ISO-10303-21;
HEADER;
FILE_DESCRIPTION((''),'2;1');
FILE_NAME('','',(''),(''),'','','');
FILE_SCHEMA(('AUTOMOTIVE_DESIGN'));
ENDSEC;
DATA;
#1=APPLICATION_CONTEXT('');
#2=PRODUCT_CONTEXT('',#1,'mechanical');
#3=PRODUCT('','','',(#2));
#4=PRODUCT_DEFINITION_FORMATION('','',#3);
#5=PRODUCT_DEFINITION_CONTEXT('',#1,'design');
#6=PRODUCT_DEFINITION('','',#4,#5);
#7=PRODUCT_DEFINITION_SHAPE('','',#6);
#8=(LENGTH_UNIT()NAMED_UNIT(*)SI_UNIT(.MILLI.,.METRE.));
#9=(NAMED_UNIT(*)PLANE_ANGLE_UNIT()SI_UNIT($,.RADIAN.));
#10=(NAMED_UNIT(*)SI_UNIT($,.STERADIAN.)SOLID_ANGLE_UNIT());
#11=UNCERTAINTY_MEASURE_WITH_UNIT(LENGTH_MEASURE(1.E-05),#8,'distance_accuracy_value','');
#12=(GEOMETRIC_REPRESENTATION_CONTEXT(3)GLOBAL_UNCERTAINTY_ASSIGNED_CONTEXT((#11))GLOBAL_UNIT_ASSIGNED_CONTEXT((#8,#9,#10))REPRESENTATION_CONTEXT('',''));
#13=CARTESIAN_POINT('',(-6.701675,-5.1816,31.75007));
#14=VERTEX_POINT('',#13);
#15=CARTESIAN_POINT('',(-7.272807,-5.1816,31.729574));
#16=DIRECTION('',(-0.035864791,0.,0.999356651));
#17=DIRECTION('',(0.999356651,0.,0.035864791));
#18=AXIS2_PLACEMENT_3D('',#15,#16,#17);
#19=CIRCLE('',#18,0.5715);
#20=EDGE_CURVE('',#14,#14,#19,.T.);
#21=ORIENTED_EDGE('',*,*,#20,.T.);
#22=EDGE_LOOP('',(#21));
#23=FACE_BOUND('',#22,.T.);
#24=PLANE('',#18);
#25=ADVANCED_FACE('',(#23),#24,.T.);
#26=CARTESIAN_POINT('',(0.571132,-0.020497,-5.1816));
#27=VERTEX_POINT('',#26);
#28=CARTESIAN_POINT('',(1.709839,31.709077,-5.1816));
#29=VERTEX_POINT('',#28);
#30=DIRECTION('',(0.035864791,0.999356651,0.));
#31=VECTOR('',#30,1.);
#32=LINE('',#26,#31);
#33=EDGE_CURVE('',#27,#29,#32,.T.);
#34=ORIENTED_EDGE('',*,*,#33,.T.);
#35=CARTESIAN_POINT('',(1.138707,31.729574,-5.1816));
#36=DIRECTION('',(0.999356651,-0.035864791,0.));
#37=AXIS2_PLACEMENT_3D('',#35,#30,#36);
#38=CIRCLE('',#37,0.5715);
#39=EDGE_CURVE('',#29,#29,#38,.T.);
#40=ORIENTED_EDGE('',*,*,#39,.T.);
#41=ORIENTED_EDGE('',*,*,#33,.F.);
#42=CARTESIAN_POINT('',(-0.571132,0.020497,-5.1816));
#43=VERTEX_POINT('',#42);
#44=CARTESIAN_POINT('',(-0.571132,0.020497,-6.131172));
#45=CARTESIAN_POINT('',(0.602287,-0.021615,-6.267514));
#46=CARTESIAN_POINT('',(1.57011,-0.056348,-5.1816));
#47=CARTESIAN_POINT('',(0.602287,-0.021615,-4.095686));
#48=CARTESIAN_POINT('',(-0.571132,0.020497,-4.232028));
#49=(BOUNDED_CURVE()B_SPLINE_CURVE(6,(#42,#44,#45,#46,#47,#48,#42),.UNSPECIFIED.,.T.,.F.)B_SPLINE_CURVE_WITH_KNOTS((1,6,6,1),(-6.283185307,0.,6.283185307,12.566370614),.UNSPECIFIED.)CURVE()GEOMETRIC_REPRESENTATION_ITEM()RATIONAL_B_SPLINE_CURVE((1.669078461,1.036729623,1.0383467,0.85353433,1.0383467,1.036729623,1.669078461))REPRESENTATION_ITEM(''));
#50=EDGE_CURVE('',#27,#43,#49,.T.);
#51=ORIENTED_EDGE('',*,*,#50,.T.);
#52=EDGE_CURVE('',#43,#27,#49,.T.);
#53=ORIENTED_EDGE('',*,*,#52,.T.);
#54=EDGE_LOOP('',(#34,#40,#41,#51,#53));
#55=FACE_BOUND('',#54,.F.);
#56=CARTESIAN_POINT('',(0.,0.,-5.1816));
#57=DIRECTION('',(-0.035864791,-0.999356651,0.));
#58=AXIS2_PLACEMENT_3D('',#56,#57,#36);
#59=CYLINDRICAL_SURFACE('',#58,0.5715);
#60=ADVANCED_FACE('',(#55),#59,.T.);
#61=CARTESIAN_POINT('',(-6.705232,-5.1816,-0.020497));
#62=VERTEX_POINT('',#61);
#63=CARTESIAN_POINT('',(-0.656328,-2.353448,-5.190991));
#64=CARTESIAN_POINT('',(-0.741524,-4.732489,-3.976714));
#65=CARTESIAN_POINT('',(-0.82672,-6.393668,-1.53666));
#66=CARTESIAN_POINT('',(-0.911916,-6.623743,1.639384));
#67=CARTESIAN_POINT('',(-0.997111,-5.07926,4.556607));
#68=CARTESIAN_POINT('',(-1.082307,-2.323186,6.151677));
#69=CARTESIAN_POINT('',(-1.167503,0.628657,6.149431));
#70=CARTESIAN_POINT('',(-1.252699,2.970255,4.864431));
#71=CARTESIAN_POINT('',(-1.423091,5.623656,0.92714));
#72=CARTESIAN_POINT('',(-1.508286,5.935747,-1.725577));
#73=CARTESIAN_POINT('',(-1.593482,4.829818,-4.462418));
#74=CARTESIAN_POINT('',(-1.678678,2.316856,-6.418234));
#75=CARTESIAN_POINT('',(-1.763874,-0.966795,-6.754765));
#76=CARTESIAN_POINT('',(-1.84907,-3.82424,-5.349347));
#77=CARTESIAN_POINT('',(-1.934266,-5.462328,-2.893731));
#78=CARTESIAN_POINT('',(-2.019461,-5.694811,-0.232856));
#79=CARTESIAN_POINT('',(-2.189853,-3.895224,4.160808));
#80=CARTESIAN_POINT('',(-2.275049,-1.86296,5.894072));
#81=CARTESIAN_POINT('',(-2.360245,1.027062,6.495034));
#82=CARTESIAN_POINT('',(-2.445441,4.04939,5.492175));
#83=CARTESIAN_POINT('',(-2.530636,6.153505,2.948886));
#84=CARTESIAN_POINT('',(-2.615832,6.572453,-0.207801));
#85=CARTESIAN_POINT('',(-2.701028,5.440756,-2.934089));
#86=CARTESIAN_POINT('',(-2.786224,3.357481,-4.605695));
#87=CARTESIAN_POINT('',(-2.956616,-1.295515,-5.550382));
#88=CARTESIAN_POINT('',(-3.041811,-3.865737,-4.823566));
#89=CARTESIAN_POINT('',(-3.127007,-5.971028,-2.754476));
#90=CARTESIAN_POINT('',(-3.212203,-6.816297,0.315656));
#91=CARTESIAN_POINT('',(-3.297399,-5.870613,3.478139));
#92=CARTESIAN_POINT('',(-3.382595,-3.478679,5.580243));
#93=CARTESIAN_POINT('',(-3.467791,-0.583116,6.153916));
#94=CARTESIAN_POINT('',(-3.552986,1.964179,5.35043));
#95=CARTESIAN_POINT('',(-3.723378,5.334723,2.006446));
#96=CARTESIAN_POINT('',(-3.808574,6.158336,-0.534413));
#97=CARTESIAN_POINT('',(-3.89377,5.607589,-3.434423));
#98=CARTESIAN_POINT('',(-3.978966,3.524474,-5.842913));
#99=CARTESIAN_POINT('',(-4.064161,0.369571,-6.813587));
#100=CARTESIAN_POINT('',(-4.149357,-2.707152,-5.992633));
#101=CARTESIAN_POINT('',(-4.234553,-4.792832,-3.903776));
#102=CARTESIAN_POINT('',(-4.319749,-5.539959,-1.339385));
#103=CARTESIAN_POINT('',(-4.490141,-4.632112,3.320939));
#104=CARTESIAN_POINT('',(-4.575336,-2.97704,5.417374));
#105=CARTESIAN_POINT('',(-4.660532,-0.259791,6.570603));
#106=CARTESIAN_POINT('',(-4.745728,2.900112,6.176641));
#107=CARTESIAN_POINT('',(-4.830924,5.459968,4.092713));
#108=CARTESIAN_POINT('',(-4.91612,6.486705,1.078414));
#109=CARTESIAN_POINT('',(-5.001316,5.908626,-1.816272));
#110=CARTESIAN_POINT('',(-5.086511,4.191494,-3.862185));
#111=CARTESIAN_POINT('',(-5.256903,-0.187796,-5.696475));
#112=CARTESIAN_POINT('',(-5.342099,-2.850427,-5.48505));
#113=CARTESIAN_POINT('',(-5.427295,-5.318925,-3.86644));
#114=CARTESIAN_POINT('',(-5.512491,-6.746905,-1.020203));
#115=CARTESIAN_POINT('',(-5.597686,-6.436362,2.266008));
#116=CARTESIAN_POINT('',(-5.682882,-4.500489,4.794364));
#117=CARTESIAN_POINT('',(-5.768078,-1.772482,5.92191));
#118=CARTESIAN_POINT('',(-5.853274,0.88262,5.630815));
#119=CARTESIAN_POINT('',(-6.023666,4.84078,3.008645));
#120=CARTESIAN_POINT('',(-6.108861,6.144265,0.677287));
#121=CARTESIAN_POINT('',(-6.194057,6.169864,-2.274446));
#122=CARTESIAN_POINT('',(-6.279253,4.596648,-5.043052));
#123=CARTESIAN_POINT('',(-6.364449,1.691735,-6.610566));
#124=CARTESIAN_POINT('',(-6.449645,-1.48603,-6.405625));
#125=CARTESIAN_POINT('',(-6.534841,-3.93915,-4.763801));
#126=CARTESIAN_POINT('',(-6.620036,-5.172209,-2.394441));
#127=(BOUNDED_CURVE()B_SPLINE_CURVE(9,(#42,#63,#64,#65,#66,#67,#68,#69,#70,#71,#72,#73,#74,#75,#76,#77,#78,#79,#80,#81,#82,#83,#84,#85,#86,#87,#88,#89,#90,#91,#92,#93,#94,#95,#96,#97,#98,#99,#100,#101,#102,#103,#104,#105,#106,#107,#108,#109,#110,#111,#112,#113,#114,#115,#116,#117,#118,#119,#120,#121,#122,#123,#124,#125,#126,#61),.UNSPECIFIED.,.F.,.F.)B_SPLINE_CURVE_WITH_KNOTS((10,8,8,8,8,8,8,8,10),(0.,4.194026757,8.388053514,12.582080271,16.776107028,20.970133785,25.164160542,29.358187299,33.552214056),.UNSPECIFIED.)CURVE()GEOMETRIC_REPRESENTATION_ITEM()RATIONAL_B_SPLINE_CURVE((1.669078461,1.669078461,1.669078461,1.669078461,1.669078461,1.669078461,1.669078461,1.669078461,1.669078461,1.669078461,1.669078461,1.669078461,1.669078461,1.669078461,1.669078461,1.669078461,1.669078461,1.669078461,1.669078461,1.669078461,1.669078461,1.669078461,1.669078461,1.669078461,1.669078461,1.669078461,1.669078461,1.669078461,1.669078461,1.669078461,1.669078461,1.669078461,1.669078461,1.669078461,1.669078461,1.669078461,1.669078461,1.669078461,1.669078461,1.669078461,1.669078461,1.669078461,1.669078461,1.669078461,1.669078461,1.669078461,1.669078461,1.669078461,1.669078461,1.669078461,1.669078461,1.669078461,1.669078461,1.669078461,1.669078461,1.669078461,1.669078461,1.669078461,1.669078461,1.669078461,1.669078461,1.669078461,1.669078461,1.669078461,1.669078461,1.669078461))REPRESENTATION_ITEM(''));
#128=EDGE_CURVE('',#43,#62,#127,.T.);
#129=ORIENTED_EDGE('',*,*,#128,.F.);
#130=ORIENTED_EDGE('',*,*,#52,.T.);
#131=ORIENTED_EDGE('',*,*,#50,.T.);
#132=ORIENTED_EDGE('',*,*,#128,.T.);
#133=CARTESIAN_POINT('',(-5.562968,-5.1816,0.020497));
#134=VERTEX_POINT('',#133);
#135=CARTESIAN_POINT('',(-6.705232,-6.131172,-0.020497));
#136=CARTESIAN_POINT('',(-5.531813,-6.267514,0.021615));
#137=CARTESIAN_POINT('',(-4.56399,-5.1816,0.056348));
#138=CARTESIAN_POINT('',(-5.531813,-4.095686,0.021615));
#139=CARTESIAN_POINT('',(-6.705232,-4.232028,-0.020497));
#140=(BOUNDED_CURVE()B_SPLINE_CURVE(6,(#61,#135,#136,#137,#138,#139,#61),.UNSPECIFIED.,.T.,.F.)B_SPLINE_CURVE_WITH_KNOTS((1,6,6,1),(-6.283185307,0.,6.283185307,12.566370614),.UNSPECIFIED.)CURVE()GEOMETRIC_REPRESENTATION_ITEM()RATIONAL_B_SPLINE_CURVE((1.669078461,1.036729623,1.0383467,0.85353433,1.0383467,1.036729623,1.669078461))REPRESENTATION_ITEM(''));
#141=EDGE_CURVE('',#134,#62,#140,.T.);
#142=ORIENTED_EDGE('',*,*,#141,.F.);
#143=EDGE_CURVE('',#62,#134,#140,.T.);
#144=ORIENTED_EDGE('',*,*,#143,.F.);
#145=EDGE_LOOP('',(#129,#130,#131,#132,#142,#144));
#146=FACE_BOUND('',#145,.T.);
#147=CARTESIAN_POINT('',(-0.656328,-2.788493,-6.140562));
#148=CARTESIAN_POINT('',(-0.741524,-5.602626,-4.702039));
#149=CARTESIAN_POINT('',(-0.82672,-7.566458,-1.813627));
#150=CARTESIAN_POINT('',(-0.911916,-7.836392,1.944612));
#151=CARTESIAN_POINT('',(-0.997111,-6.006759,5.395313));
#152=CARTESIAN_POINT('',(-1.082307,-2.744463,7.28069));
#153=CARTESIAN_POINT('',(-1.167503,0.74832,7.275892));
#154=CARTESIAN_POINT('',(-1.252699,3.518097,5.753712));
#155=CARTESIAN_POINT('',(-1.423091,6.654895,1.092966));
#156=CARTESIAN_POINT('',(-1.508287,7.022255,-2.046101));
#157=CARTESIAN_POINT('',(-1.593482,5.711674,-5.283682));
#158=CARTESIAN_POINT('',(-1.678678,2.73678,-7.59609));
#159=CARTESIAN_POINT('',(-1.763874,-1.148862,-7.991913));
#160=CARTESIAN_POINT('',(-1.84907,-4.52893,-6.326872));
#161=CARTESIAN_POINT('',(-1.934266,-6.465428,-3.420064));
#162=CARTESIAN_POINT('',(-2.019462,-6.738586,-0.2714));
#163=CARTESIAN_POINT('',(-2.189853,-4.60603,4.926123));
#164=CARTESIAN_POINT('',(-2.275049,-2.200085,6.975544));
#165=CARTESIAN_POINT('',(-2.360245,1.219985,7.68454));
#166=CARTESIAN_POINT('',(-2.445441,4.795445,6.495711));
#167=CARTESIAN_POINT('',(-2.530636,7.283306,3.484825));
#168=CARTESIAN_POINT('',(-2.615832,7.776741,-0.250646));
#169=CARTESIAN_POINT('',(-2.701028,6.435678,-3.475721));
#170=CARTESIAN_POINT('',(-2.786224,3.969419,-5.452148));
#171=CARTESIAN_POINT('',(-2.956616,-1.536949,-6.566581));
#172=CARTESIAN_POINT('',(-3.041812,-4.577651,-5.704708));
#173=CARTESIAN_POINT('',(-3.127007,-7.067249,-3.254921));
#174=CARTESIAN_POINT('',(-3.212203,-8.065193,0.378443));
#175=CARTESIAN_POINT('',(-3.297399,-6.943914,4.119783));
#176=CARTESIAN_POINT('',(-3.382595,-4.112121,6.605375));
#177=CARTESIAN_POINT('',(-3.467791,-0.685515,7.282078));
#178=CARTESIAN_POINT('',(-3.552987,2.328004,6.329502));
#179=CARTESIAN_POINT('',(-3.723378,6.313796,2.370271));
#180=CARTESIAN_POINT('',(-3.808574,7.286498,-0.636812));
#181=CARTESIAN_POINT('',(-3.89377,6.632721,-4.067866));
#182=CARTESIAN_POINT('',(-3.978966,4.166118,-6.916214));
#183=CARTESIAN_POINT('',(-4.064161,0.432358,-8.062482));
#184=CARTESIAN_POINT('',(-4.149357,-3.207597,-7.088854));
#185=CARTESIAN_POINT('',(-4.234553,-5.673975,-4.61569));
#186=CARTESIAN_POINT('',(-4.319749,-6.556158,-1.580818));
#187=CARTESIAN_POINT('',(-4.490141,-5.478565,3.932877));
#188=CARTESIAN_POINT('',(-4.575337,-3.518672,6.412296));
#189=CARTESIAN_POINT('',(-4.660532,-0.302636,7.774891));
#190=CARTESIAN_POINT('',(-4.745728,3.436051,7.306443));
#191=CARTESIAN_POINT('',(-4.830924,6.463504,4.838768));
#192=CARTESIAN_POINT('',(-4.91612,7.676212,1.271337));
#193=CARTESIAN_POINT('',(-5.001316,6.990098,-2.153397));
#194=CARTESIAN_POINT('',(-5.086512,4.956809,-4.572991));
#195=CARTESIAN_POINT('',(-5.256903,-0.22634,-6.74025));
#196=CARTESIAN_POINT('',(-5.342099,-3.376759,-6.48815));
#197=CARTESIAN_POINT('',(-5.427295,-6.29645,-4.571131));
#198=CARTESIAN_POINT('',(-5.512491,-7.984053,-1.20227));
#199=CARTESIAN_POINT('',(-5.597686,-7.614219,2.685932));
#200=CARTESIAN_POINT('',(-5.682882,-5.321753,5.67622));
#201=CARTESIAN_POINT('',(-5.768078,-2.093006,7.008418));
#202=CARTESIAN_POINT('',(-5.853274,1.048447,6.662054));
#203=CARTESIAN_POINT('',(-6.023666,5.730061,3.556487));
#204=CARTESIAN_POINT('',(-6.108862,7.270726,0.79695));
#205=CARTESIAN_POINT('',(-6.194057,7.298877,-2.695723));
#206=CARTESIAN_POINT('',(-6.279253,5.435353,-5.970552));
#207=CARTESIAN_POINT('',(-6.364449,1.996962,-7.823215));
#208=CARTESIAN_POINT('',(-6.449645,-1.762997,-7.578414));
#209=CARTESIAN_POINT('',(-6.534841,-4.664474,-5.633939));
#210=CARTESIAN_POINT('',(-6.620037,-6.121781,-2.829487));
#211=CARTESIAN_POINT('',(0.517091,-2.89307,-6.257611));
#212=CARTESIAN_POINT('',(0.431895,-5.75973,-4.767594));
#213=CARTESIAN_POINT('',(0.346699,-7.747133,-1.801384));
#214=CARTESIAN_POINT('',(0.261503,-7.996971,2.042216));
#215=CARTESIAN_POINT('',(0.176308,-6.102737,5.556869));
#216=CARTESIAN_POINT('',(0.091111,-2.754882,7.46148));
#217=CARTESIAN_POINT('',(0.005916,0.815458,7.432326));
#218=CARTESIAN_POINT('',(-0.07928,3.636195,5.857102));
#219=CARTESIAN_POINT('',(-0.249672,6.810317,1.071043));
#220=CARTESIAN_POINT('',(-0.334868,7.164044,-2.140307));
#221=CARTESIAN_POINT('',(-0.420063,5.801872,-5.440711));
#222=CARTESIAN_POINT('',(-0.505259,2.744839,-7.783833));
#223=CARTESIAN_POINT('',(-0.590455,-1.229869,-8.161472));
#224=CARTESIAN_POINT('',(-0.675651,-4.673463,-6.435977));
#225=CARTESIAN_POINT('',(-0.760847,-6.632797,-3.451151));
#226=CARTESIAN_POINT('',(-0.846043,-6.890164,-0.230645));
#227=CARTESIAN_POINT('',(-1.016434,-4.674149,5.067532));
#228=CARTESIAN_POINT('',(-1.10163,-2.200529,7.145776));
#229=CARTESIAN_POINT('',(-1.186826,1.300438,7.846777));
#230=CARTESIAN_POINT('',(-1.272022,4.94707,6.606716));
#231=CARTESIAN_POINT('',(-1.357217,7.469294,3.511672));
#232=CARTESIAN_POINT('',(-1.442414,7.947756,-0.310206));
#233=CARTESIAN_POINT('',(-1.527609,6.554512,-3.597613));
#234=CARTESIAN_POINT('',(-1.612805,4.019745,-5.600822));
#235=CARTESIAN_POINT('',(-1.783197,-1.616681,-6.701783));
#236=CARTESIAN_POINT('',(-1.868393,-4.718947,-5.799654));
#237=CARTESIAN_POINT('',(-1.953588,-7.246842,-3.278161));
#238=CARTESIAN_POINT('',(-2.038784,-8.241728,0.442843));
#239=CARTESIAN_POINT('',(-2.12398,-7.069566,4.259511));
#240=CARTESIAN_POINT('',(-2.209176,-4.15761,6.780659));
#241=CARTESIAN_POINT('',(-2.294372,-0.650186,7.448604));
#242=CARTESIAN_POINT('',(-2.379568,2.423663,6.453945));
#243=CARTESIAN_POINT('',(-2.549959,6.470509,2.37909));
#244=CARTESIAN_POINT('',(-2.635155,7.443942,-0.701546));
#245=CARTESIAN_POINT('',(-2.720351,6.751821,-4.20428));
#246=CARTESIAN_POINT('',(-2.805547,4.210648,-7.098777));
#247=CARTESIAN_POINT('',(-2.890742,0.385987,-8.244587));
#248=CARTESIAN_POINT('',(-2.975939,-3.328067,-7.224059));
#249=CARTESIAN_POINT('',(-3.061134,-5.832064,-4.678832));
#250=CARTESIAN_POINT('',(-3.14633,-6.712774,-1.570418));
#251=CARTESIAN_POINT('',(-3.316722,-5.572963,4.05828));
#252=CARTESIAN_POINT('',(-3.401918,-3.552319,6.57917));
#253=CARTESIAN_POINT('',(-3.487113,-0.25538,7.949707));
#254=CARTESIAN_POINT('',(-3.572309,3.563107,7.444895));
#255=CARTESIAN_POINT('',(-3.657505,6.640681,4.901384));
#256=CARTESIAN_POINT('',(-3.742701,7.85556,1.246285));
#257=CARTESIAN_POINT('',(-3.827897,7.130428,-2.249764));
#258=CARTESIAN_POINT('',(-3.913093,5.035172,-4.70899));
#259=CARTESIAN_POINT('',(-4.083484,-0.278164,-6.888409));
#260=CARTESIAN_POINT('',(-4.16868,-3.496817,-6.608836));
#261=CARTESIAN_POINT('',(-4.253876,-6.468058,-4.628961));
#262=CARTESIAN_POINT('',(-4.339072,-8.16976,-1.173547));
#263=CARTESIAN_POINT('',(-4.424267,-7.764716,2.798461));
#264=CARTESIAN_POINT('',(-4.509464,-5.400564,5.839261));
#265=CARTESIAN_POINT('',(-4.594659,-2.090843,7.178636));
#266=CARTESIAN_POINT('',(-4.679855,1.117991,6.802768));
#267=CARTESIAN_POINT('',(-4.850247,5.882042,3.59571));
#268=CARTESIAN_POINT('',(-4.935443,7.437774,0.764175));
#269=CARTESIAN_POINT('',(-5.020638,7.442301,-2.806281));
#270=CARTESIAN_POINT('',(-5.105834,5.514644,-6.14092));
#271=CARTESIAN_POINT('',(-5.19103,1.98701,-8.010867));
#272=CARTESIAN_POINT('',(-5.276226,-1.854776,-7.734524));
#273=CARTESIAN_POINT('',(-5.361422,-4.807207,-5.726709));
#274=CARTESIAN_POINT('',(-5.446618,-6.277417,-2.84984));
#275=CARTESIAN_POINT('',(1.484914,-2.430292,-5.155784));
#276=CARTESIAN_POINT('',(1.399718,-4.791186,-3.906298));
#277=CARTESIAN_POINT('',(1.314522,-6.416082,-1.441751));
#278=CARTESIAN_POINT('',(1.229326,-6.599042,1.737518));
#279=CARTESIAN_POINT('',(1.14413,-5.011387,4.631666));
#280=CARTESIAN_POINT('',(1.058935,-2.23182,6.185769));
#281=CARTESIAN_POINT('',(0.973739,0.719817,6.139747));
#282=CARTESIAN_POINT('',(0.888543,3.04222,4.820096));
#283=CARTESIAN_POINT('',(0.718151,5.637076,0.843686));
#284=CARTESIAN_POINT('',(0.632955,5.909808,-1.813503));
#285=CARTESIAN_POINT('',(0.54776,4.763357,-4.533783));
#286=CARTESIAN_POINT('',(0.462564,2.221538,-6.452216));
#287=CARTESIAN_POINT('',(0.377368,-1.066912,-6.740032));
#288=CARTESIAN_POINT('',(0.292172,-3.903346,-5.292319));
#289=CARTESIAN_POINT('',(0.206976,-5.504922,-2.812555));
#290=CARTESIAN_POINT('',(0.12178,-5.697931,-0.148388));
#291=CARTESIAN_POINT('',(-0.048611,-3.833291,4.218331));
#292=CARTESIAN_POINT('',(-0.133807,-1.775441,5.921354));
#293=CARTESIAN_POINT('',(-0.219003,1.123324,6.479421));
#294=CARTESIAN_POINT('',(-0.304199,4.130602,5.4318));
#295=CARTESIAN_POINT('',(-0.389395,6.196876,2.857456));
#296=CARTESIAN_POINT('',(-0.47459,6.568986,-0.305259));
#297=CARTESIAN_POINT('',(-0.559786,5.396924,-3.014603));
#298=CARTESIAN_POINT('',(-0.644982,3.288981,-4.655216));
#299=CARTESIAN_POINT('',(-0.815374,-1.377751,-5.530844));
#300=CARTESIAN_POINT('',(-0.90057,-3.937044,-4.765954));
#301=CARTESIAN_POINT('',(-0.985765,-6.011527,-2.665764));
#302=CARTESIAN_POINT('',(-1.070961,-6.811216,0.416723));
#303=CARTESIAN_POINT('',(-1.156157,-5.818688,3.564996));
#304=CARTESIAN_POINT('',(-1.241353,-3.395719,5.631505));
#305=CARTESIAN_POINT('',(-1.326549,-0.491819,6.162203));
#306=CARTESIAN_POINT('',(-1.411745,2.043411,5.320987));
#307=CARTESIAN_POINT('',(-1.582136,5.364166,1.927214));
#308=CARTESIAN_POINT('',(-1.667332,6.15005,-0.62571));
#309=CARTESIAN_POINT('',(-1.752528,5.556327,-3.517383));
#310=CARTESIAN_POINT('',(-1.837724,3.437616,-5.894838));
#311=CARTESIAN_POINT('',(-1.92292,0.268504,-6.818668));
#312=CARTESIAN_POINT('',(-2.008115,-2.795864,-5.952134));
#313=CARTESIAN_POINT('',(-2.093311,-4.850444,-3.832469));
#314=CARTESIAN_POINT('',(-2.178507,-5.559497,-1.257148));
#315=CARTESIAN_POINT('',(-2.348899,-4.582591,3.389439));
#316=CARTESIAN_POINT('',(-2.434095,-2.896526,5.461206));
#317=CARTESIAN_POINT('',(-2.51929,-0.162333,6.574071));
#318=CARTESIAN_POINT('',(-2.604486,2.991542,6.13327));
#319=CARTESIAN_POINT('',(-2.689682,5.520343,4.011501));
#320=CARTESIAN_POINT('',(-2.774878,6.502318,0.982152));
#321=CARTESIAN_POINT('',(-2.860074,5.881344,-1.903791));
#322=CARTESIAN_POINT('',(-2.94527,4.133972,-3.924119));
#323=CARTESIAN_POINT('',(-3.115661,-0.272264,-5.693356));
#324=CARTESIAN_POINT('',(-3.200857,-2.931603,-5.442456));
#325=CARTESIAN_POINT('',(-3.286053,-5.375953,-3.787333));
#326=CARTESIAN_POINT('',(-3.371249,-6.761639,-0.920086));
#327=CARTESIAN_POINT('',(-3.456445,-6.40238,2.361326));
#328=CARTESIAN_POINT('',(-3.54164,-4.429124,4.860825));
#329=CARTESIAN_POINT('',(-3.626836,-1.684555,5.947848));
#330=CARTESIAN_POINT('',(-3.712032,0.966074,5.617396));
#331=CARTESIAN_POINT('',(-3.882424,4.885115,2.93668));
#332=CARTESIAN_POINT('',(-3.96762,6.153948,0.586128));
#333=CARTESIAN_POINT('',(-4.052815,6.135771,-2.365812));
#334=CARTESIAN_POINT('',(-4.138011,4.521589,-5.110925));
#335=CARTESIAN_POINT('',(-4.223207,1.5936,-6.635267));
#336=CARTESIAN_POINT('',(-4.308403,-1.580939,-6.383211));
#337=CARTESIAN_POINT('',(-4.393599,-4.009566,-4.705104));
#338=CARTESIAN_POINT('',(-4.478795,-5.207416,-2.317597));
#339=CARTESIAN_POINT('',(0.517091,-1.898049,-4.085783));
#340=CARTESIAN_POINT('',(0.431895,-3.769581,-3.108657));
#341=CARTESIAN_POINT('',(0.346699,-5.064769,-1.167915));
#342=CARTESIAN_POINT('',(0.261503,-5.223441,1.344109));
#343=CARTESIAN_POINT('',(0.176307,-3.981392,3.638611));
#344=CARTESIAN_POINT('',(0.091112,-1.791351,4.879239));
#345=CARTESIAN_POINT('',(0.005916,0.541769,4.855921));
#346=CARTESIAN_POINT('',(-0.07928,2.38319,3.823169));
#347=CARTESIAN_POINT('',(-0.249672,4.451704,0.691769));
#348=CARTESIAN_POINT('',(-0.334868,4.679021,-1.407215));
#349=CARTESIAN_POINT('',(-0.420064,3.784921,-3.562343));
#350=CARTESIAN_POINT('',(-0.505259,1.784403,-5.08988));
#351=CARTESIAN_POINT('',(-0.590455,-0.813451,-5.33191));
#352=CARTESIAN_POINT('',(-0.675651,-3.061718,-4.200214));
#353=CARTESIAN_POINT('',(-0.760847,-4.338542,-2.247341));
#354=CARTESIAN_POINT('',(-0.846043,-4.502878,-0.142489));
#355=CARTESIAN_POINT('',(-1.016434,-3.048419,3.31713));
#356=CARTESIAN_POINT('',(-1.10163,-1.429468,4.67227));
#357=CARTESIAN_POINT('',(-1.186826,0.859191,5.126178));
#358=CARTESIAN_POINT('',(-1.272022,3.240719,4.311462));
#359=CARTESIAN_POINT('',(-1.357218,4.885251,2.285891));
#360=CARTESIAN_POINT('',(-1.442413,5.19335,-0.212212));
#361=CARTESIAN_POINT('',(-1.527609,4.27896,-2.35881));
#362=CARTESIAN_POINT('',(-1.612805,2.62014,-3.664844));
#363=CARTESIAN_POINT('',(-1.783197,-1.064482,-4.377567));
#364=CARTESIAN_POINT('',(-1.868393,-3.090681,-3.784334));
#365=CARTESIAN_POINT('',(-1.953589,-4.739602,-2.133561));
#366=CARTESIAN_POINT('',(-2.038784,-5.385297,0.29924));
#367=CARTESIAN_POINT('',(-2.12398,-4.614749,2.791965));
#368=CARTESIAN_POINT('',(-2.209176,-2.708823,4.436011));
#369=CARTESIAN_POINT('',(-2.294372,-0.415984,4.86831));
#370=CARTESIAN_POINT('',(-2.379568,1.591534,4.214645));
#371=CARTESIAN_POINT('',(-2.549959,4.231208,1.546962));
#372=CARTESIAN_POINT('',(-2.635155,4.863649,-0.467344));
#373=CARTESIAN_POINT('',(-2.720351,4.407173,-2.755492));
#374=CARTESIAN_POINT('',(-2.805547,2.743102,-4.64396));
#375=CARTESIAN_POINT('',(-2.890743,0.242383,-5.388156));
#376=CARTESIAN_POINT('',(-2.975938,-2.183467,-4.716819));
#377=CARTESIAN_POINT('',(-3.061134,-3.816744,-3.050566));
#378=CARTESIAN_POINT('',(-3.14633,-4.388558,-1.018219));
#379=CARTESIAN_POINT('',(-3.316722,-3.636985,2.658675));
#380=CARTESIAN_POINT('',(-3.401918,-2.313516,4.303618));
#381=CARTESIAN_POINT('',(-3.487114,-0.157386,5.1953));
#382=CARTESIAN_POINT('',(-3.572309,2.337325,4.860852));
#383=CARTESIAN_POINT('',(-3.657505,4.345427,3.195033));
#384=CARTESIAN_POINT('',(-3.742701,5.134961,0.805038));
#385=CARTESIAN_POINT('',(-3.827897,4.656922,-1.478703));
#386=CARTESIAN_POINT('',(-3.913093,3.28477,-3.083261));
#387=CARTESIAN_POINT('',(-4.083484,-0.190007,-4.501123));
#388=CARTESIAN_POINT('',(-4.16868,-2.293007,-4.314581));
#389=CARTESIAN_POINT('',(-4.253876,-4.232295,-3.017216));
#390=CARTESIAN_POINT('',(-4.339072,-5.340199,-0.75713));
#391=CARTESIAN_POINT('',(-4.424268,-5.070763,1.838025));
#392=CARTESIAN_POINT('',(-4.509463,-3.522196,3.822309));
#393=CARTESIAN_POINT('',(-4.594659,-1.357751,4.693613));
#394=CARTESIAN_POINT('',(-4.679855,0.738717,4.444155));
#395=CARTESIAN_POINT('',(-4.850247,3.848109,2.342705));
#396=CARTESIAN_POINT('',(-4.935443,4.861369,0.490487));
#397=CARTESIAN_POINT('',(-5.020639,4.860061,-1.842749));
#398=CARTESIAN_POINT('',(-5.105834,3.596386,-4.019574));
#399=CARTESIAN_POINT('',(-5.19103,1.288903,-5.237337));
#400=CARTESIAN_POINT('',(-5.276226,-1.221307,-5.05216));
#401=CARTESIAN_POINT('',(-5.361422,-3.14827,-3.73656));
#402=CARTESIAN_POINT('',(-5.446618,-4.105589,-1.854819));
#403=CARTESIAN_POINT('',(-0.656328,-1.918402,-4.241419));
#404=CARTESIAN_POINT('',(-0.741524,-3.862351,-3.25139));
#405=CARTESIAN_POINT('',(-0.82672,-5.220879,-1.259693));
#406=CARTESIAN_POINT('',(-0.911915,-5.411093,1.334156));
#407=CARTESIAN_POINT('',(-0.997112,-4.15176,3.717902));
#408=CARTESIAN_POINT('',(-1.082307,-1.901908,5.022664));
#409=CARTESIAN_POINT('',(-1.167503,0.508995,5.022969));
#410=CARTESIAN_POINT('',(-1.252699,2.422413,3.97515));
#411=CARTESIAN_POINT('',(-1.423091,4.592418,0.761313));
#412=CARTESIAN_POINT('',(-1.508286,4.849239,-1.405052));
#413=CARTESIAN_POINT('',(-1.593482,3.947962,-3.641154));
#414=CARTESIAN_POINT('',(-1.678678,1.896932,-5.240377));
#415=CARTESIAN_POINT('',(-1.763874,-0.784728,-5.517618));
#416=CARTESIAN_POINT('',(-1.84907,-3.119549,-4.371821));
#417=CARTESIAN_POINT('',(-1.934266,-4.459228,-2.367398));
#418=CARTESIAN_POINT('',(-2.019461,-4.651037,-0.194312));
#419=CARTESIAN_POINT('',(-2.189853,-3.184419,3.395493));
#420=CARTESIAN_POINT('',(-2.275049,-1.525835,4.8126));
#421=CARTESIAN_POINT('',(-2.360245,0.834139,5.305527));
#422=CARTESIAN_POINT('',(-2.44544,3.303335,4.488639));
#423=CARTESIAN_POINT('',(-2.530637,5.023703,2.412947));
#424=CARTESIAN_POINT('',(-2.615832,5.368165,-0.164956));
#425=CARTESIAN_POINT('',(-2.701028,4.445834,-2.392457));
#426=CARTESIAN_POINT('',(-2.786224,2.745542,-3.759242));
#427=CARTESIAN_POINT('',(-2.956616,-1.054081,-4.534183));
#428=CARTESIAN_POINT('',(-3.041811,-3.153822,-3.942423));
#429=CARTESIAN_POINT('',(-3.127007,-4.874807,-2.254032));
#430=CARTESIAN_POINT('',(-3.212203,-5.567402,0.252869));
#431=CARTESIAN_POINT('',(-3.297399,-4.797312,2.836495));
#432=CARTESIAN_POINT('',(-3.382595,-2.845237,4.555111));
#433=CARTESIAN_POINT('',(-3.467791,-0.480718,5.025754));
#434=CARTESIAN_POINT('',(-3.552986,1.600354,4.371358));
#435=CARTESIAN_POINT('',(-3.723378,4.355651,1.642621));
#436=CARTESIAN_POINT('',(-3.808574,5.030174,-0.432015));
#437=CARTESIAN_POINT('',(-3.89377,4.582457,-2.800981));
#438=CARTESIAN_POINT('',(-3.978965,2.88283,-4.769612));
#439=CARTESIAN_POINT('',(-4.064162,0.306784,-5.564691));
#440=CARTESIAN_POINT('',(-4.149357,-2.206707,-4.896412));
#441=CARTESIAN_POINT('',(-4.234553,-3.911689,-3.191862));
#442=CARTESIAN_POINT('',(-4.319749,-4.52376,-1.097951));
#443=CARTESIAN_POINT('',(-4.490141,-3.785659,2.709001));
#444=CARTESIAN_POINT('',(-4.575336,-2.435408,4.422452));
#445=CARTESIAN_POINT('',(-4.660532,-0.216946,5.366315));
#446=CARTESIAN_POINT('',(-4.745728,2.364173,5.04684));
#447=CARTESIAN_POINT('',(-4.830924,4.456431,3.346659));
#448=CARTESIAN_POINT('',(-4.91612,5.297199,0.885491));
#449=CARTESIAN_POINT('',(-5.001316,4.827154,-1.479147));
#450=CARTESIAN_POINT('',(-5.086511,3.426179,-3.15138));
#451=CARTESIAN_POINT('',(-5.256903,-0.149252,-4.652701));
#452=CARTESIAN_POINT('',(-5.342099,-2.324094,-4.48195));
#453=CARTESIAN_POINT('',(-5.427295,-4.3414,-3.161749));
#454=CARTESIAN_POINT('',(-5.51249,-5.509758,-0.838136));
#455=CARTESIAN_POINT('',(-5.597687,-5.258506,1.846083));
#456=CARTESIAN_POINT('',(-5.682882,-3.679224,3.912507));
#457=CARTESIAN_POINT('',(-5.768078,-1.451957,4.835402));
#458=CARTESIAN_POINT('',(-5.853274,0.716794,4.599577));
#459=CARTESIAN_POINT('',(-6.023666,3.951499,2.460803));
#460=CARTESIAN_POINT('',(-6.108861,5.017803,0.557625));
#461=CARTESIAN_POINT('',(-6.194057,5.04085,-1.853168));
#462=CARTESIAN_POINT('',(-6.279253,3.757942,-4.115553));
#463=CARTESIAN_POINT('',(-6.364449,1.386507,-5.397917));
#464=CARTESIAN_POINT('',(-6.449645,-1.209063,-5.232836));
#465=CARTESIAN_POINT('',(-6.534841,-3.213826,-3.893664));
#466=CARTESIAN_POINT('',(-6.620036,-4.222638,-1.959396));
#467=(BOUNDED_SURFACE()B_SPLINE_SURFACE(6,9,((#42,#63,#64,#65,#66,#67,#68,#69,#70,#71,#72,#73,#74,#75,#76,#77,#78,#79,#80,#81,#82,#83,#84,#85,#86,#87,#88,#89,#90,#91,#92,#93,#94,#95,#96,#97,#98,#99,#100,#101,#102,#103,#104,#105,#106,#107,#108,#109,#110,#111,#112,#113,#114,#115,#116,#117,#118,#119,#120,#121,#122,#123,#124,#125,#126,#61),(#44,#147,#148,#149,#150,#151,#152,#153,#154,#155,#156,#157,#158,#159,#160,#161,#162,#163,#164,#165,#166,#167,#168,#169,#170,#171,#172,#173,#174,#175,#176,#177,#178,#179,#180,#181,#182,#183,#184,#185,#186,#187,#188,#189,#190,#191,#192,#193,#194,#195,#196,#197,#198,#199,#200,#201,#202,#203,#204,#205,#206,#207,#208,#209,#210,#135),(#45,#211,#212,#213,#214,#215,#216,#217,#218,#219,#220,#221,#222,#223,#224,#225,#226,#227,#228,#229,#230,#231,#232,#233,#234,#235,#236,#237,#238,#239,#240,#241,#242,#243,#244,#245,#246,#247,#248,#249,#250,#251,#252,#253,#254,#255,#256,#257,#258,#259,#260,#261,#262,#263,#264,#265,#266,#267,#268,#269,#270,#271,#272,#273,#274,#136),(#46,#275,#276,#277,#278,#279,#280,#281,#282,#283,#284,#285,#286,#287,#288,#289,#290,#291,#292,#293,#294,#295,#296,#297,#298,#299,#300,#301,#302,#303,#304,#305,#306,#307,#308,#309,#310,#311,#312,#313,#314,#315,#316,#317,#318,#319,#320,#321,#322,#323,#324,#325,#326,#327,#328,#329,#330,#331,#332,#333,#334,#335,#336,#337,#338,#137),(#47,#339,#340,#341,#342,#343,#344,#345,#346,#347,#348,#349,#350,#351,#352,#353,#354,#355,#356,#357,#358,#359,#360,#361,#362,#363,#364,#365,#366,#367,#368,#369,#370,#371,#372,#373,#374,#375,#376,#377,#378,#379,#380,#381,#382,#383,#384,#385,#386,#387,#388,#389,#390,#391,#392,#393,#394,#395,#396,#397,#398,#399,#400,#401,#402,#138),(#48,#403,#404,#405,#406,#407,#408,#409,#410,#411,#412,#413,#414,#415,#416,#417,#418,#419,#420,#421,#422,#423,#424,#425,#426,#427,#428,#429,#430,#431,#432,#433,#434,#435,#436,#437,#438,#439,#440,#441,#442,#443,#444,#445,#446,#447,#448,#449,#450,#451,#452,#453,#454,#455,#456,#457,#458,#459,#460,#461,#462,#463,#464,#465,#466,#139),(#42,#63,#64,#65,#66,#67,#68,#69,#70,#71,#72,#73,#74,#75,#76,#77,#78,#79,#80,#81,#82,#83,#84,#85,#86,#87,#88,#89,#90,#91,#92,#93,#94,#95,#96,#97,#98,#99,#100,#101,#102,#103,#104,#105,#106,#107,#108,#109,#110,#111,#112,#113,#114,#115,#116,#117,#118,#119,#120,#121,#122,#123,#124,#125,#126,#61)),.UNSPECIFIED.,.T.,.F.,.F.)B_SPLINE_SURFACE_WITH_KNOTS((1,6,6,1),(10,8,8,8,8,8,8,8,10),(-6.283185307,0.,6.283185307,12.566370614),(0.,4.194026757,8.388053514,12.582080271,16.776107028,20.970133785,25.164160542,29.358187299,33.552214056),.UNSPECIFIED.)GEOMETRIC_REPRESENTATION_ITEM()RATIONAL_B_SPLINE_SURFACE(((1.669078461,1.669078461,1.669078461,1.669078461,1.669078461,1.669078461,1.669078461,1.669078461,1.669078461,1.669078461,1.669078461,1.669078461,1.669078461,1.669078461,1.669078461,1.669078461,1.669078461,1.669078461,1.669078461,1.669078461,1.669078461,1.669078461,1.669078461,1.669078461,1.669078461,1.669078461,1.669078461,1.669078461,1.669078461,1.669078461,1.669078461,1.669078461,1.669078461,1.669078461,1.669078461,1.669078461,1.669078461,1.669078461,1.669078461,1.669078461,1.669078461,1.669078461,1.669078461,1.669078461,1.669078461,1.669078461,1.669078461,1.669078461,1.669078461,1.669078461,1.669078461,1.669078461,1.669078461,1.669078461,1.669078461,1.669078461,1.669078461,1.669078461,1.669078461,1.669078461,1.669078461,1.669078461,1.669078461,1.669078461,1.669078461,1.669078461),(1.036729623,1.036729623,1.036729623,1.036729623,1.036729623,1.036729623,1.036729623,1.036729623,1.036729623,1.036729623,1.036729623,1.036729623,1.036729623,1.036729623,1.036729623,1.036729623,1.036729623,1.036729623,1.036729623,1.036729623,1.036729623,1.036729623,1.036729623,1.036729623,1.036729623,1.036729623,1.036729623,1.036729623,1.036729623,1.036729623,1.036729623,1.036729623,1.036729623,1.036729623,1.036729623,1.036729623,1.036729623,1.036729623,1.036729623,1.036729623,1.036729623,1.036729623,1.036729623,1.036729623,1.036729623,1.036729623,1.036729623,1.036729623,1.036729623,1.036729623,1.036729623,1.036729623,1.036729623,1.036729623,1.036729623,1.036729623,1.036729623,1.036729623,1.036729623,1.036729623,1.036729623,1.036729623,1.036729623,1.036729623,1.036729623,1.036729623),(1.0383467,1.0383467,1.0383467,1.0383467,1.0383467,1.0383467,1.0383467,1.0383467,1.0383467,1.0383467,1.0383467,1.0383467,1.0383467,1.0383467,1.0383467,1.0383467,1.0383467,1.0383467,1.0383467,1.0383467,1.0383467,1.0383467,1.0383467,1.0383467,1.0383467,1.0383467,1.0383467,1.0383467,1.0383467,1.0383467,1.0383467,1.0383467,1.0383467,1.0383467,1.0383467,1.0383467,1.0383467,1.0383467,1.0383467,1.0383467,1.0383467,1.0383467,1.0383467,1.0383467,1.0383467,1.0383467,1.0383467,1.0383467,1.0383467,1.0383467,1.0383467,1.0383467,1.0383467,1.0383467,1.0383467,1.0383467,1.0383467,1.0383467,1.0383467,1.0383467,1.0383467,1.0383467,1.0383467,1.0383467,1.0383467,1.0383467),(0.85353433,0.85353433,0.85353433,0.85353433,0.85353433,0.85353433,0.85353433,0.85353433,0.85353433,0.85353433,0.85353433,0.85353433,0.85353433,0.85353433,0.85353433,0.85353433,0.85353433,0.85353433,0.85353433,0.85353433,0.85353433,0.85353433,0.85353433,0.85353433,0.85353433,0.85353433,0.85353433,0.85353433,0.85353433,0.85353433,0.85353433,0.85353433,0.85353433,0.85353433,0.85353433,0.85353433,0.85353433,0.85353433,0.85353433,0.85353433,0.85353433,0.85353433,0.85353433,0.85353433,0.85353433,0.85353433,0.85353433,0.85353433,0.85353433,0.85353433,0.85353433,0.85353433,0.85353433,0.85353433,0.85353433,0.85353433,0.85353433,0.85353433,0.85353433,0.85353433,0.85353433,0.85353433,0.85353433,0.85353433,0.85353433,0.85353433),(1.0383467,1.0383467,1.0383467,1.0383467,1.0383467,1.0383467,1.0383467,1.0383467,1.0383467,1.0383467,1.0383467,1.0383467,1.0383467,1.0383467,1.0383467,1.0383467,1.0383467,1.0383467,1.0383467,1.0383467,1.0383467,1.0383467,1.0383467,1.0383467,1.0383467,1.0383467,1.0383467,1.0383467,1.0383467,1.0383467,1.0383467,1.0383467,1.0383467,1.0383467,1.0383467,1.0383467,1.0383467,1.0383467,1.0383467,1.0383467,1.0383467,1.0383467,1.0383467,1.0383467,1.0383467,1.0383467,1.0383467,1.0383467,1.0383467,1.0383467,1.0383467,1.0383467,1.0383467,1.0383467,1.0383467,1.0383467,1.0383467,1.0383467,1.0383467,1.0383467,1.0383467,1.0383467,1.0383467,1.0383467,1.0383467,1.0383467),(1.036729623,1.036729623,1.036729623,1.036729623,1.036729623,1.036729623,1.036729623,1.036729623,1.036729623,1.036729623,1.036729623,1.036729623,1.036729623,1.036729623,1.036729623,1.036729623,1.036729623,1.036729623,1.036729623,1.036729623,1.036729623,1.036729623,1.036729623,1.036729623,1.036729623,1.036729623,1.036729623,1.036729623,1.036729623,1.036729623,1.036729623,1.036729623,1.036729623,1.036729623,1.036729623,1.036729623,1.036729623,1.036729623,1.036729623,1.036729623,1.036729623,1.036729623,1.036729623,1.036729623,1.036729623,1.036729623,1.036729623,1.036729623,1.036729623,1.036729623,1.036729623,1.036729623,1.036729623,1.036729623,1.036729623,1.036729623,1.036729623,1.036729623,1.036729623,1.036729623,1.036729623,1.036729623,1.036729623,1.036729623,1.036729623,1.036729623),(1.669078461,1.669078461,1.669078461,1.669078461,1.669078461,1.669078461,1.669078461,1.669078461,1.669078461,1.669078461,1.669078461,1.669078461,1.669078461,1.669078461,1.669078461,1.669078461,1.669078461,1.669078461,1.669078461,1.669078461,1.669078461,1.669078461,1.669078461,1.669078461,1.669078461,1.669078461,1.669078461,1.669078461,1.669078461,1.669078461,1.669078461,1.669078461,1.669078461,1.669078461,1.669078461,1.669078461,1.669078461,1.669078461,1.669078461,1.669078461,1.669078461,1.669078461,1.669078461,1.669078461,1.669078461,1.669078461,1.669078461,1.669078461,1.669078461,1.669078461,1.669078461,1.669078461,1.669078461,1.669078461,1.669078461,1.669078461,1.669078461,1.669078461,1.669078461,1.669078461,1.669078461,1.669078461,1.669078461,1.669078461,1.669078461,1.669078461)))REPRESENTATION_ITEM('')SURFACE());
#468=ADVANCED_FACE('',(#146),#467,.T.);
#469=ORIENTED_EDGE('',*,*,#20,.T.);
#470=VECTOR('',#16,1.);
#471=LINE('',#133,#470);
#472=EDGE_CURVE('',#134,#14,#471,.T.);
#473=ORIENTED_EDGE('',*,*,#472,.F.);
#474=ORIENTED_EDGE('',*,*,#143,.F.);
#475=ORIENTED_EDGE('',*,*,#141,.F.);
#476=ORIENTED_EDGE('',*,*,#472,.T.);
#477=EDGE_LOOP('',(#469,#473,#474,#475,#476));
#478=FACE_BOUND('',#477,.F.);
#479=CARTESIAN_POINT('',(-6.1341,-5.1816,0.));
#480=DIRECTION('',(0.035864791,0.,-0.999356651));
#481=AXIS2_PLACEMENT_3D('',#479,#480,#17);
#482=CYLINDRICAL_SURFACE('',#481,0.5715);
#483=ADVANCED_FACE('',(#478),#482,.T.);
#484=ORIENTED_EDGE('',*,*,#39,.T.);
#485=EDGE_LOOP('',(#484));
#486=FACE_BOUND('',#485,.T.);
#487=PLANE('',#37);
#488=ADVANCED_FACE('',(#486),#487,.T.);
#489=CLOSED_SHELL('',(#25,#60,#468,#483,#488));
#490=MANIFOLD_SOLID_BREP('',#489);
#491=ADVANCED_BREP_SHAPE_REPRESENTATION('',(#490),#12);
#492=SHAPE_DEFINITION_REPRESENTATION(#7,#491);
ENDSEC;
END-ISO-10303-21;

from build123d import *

# Parameters (mm, degrees)
SWEEP1_PITCH        = 1.1684
SWEEP1_HEIGHT       = 6.1341
SWEEP1_RADIUS       = 5.1816
SKETCH4_R           = 0.5715
SKETCH5_R           = 0.5715
BOSS_EXTRUDE1_DEPTH = 31.75
SKETCH6_R           = 0.5715
BOSS_EXTRUDE2_DEPTH = 31.75


with BuildPart() as part:
    # Sweep1: sweep along a helix
    with BuildLine() as sweep1_path:
        Helix(SWEEP1_PITCH, SWEEP1_HEIGHT, SWEEP1_RADIUS, center=(0, 0, 0), direction=(-1, 0, 0))
    # Sketch4 → Sweep1 (sweep)
    with BuildSketch(Plane(origin=(0, 0, 7.0993), x_dir=(-0.999356651, 0.035864791, 0), z_dir=(-0.035864791, -0.999356651, 0))):
        with Locations((0, 12.2809)):
            Circle(SKETCH4_R)
    sweep(path=sweep1_path.line, is_frenet=True)

    # Sketch5 → Boss-Extrude1 (add)
    with BuildSketch(Plane(origin=(-0.00789019, 0, 0.219856678), x_dir=(0.999356651, 0, 0.035864791), z_dir=(-0.035864791, 0, 0.999356651))):
        with Locations((-6.130153636, -5.1816)):
            Circle(SKETCH5_R)
    extrude(amount=BOSS_EXTRUDE1_DEPTH)

    # Sketch6 → Boss-Extrude2 (add)
    with BuildSketch(Plane(origin=(0, 0, 0), x_dir=(0.999356651, -0.035864791, 0), z_dir=(0.035864791, 0.999356651, 0))):
        with Locations((0, 5.1816)):
            Circle(SKETCH6_R)
    extrude(amount=BOSS_EXTRUDE2_DEPTH)


solid = part.part
